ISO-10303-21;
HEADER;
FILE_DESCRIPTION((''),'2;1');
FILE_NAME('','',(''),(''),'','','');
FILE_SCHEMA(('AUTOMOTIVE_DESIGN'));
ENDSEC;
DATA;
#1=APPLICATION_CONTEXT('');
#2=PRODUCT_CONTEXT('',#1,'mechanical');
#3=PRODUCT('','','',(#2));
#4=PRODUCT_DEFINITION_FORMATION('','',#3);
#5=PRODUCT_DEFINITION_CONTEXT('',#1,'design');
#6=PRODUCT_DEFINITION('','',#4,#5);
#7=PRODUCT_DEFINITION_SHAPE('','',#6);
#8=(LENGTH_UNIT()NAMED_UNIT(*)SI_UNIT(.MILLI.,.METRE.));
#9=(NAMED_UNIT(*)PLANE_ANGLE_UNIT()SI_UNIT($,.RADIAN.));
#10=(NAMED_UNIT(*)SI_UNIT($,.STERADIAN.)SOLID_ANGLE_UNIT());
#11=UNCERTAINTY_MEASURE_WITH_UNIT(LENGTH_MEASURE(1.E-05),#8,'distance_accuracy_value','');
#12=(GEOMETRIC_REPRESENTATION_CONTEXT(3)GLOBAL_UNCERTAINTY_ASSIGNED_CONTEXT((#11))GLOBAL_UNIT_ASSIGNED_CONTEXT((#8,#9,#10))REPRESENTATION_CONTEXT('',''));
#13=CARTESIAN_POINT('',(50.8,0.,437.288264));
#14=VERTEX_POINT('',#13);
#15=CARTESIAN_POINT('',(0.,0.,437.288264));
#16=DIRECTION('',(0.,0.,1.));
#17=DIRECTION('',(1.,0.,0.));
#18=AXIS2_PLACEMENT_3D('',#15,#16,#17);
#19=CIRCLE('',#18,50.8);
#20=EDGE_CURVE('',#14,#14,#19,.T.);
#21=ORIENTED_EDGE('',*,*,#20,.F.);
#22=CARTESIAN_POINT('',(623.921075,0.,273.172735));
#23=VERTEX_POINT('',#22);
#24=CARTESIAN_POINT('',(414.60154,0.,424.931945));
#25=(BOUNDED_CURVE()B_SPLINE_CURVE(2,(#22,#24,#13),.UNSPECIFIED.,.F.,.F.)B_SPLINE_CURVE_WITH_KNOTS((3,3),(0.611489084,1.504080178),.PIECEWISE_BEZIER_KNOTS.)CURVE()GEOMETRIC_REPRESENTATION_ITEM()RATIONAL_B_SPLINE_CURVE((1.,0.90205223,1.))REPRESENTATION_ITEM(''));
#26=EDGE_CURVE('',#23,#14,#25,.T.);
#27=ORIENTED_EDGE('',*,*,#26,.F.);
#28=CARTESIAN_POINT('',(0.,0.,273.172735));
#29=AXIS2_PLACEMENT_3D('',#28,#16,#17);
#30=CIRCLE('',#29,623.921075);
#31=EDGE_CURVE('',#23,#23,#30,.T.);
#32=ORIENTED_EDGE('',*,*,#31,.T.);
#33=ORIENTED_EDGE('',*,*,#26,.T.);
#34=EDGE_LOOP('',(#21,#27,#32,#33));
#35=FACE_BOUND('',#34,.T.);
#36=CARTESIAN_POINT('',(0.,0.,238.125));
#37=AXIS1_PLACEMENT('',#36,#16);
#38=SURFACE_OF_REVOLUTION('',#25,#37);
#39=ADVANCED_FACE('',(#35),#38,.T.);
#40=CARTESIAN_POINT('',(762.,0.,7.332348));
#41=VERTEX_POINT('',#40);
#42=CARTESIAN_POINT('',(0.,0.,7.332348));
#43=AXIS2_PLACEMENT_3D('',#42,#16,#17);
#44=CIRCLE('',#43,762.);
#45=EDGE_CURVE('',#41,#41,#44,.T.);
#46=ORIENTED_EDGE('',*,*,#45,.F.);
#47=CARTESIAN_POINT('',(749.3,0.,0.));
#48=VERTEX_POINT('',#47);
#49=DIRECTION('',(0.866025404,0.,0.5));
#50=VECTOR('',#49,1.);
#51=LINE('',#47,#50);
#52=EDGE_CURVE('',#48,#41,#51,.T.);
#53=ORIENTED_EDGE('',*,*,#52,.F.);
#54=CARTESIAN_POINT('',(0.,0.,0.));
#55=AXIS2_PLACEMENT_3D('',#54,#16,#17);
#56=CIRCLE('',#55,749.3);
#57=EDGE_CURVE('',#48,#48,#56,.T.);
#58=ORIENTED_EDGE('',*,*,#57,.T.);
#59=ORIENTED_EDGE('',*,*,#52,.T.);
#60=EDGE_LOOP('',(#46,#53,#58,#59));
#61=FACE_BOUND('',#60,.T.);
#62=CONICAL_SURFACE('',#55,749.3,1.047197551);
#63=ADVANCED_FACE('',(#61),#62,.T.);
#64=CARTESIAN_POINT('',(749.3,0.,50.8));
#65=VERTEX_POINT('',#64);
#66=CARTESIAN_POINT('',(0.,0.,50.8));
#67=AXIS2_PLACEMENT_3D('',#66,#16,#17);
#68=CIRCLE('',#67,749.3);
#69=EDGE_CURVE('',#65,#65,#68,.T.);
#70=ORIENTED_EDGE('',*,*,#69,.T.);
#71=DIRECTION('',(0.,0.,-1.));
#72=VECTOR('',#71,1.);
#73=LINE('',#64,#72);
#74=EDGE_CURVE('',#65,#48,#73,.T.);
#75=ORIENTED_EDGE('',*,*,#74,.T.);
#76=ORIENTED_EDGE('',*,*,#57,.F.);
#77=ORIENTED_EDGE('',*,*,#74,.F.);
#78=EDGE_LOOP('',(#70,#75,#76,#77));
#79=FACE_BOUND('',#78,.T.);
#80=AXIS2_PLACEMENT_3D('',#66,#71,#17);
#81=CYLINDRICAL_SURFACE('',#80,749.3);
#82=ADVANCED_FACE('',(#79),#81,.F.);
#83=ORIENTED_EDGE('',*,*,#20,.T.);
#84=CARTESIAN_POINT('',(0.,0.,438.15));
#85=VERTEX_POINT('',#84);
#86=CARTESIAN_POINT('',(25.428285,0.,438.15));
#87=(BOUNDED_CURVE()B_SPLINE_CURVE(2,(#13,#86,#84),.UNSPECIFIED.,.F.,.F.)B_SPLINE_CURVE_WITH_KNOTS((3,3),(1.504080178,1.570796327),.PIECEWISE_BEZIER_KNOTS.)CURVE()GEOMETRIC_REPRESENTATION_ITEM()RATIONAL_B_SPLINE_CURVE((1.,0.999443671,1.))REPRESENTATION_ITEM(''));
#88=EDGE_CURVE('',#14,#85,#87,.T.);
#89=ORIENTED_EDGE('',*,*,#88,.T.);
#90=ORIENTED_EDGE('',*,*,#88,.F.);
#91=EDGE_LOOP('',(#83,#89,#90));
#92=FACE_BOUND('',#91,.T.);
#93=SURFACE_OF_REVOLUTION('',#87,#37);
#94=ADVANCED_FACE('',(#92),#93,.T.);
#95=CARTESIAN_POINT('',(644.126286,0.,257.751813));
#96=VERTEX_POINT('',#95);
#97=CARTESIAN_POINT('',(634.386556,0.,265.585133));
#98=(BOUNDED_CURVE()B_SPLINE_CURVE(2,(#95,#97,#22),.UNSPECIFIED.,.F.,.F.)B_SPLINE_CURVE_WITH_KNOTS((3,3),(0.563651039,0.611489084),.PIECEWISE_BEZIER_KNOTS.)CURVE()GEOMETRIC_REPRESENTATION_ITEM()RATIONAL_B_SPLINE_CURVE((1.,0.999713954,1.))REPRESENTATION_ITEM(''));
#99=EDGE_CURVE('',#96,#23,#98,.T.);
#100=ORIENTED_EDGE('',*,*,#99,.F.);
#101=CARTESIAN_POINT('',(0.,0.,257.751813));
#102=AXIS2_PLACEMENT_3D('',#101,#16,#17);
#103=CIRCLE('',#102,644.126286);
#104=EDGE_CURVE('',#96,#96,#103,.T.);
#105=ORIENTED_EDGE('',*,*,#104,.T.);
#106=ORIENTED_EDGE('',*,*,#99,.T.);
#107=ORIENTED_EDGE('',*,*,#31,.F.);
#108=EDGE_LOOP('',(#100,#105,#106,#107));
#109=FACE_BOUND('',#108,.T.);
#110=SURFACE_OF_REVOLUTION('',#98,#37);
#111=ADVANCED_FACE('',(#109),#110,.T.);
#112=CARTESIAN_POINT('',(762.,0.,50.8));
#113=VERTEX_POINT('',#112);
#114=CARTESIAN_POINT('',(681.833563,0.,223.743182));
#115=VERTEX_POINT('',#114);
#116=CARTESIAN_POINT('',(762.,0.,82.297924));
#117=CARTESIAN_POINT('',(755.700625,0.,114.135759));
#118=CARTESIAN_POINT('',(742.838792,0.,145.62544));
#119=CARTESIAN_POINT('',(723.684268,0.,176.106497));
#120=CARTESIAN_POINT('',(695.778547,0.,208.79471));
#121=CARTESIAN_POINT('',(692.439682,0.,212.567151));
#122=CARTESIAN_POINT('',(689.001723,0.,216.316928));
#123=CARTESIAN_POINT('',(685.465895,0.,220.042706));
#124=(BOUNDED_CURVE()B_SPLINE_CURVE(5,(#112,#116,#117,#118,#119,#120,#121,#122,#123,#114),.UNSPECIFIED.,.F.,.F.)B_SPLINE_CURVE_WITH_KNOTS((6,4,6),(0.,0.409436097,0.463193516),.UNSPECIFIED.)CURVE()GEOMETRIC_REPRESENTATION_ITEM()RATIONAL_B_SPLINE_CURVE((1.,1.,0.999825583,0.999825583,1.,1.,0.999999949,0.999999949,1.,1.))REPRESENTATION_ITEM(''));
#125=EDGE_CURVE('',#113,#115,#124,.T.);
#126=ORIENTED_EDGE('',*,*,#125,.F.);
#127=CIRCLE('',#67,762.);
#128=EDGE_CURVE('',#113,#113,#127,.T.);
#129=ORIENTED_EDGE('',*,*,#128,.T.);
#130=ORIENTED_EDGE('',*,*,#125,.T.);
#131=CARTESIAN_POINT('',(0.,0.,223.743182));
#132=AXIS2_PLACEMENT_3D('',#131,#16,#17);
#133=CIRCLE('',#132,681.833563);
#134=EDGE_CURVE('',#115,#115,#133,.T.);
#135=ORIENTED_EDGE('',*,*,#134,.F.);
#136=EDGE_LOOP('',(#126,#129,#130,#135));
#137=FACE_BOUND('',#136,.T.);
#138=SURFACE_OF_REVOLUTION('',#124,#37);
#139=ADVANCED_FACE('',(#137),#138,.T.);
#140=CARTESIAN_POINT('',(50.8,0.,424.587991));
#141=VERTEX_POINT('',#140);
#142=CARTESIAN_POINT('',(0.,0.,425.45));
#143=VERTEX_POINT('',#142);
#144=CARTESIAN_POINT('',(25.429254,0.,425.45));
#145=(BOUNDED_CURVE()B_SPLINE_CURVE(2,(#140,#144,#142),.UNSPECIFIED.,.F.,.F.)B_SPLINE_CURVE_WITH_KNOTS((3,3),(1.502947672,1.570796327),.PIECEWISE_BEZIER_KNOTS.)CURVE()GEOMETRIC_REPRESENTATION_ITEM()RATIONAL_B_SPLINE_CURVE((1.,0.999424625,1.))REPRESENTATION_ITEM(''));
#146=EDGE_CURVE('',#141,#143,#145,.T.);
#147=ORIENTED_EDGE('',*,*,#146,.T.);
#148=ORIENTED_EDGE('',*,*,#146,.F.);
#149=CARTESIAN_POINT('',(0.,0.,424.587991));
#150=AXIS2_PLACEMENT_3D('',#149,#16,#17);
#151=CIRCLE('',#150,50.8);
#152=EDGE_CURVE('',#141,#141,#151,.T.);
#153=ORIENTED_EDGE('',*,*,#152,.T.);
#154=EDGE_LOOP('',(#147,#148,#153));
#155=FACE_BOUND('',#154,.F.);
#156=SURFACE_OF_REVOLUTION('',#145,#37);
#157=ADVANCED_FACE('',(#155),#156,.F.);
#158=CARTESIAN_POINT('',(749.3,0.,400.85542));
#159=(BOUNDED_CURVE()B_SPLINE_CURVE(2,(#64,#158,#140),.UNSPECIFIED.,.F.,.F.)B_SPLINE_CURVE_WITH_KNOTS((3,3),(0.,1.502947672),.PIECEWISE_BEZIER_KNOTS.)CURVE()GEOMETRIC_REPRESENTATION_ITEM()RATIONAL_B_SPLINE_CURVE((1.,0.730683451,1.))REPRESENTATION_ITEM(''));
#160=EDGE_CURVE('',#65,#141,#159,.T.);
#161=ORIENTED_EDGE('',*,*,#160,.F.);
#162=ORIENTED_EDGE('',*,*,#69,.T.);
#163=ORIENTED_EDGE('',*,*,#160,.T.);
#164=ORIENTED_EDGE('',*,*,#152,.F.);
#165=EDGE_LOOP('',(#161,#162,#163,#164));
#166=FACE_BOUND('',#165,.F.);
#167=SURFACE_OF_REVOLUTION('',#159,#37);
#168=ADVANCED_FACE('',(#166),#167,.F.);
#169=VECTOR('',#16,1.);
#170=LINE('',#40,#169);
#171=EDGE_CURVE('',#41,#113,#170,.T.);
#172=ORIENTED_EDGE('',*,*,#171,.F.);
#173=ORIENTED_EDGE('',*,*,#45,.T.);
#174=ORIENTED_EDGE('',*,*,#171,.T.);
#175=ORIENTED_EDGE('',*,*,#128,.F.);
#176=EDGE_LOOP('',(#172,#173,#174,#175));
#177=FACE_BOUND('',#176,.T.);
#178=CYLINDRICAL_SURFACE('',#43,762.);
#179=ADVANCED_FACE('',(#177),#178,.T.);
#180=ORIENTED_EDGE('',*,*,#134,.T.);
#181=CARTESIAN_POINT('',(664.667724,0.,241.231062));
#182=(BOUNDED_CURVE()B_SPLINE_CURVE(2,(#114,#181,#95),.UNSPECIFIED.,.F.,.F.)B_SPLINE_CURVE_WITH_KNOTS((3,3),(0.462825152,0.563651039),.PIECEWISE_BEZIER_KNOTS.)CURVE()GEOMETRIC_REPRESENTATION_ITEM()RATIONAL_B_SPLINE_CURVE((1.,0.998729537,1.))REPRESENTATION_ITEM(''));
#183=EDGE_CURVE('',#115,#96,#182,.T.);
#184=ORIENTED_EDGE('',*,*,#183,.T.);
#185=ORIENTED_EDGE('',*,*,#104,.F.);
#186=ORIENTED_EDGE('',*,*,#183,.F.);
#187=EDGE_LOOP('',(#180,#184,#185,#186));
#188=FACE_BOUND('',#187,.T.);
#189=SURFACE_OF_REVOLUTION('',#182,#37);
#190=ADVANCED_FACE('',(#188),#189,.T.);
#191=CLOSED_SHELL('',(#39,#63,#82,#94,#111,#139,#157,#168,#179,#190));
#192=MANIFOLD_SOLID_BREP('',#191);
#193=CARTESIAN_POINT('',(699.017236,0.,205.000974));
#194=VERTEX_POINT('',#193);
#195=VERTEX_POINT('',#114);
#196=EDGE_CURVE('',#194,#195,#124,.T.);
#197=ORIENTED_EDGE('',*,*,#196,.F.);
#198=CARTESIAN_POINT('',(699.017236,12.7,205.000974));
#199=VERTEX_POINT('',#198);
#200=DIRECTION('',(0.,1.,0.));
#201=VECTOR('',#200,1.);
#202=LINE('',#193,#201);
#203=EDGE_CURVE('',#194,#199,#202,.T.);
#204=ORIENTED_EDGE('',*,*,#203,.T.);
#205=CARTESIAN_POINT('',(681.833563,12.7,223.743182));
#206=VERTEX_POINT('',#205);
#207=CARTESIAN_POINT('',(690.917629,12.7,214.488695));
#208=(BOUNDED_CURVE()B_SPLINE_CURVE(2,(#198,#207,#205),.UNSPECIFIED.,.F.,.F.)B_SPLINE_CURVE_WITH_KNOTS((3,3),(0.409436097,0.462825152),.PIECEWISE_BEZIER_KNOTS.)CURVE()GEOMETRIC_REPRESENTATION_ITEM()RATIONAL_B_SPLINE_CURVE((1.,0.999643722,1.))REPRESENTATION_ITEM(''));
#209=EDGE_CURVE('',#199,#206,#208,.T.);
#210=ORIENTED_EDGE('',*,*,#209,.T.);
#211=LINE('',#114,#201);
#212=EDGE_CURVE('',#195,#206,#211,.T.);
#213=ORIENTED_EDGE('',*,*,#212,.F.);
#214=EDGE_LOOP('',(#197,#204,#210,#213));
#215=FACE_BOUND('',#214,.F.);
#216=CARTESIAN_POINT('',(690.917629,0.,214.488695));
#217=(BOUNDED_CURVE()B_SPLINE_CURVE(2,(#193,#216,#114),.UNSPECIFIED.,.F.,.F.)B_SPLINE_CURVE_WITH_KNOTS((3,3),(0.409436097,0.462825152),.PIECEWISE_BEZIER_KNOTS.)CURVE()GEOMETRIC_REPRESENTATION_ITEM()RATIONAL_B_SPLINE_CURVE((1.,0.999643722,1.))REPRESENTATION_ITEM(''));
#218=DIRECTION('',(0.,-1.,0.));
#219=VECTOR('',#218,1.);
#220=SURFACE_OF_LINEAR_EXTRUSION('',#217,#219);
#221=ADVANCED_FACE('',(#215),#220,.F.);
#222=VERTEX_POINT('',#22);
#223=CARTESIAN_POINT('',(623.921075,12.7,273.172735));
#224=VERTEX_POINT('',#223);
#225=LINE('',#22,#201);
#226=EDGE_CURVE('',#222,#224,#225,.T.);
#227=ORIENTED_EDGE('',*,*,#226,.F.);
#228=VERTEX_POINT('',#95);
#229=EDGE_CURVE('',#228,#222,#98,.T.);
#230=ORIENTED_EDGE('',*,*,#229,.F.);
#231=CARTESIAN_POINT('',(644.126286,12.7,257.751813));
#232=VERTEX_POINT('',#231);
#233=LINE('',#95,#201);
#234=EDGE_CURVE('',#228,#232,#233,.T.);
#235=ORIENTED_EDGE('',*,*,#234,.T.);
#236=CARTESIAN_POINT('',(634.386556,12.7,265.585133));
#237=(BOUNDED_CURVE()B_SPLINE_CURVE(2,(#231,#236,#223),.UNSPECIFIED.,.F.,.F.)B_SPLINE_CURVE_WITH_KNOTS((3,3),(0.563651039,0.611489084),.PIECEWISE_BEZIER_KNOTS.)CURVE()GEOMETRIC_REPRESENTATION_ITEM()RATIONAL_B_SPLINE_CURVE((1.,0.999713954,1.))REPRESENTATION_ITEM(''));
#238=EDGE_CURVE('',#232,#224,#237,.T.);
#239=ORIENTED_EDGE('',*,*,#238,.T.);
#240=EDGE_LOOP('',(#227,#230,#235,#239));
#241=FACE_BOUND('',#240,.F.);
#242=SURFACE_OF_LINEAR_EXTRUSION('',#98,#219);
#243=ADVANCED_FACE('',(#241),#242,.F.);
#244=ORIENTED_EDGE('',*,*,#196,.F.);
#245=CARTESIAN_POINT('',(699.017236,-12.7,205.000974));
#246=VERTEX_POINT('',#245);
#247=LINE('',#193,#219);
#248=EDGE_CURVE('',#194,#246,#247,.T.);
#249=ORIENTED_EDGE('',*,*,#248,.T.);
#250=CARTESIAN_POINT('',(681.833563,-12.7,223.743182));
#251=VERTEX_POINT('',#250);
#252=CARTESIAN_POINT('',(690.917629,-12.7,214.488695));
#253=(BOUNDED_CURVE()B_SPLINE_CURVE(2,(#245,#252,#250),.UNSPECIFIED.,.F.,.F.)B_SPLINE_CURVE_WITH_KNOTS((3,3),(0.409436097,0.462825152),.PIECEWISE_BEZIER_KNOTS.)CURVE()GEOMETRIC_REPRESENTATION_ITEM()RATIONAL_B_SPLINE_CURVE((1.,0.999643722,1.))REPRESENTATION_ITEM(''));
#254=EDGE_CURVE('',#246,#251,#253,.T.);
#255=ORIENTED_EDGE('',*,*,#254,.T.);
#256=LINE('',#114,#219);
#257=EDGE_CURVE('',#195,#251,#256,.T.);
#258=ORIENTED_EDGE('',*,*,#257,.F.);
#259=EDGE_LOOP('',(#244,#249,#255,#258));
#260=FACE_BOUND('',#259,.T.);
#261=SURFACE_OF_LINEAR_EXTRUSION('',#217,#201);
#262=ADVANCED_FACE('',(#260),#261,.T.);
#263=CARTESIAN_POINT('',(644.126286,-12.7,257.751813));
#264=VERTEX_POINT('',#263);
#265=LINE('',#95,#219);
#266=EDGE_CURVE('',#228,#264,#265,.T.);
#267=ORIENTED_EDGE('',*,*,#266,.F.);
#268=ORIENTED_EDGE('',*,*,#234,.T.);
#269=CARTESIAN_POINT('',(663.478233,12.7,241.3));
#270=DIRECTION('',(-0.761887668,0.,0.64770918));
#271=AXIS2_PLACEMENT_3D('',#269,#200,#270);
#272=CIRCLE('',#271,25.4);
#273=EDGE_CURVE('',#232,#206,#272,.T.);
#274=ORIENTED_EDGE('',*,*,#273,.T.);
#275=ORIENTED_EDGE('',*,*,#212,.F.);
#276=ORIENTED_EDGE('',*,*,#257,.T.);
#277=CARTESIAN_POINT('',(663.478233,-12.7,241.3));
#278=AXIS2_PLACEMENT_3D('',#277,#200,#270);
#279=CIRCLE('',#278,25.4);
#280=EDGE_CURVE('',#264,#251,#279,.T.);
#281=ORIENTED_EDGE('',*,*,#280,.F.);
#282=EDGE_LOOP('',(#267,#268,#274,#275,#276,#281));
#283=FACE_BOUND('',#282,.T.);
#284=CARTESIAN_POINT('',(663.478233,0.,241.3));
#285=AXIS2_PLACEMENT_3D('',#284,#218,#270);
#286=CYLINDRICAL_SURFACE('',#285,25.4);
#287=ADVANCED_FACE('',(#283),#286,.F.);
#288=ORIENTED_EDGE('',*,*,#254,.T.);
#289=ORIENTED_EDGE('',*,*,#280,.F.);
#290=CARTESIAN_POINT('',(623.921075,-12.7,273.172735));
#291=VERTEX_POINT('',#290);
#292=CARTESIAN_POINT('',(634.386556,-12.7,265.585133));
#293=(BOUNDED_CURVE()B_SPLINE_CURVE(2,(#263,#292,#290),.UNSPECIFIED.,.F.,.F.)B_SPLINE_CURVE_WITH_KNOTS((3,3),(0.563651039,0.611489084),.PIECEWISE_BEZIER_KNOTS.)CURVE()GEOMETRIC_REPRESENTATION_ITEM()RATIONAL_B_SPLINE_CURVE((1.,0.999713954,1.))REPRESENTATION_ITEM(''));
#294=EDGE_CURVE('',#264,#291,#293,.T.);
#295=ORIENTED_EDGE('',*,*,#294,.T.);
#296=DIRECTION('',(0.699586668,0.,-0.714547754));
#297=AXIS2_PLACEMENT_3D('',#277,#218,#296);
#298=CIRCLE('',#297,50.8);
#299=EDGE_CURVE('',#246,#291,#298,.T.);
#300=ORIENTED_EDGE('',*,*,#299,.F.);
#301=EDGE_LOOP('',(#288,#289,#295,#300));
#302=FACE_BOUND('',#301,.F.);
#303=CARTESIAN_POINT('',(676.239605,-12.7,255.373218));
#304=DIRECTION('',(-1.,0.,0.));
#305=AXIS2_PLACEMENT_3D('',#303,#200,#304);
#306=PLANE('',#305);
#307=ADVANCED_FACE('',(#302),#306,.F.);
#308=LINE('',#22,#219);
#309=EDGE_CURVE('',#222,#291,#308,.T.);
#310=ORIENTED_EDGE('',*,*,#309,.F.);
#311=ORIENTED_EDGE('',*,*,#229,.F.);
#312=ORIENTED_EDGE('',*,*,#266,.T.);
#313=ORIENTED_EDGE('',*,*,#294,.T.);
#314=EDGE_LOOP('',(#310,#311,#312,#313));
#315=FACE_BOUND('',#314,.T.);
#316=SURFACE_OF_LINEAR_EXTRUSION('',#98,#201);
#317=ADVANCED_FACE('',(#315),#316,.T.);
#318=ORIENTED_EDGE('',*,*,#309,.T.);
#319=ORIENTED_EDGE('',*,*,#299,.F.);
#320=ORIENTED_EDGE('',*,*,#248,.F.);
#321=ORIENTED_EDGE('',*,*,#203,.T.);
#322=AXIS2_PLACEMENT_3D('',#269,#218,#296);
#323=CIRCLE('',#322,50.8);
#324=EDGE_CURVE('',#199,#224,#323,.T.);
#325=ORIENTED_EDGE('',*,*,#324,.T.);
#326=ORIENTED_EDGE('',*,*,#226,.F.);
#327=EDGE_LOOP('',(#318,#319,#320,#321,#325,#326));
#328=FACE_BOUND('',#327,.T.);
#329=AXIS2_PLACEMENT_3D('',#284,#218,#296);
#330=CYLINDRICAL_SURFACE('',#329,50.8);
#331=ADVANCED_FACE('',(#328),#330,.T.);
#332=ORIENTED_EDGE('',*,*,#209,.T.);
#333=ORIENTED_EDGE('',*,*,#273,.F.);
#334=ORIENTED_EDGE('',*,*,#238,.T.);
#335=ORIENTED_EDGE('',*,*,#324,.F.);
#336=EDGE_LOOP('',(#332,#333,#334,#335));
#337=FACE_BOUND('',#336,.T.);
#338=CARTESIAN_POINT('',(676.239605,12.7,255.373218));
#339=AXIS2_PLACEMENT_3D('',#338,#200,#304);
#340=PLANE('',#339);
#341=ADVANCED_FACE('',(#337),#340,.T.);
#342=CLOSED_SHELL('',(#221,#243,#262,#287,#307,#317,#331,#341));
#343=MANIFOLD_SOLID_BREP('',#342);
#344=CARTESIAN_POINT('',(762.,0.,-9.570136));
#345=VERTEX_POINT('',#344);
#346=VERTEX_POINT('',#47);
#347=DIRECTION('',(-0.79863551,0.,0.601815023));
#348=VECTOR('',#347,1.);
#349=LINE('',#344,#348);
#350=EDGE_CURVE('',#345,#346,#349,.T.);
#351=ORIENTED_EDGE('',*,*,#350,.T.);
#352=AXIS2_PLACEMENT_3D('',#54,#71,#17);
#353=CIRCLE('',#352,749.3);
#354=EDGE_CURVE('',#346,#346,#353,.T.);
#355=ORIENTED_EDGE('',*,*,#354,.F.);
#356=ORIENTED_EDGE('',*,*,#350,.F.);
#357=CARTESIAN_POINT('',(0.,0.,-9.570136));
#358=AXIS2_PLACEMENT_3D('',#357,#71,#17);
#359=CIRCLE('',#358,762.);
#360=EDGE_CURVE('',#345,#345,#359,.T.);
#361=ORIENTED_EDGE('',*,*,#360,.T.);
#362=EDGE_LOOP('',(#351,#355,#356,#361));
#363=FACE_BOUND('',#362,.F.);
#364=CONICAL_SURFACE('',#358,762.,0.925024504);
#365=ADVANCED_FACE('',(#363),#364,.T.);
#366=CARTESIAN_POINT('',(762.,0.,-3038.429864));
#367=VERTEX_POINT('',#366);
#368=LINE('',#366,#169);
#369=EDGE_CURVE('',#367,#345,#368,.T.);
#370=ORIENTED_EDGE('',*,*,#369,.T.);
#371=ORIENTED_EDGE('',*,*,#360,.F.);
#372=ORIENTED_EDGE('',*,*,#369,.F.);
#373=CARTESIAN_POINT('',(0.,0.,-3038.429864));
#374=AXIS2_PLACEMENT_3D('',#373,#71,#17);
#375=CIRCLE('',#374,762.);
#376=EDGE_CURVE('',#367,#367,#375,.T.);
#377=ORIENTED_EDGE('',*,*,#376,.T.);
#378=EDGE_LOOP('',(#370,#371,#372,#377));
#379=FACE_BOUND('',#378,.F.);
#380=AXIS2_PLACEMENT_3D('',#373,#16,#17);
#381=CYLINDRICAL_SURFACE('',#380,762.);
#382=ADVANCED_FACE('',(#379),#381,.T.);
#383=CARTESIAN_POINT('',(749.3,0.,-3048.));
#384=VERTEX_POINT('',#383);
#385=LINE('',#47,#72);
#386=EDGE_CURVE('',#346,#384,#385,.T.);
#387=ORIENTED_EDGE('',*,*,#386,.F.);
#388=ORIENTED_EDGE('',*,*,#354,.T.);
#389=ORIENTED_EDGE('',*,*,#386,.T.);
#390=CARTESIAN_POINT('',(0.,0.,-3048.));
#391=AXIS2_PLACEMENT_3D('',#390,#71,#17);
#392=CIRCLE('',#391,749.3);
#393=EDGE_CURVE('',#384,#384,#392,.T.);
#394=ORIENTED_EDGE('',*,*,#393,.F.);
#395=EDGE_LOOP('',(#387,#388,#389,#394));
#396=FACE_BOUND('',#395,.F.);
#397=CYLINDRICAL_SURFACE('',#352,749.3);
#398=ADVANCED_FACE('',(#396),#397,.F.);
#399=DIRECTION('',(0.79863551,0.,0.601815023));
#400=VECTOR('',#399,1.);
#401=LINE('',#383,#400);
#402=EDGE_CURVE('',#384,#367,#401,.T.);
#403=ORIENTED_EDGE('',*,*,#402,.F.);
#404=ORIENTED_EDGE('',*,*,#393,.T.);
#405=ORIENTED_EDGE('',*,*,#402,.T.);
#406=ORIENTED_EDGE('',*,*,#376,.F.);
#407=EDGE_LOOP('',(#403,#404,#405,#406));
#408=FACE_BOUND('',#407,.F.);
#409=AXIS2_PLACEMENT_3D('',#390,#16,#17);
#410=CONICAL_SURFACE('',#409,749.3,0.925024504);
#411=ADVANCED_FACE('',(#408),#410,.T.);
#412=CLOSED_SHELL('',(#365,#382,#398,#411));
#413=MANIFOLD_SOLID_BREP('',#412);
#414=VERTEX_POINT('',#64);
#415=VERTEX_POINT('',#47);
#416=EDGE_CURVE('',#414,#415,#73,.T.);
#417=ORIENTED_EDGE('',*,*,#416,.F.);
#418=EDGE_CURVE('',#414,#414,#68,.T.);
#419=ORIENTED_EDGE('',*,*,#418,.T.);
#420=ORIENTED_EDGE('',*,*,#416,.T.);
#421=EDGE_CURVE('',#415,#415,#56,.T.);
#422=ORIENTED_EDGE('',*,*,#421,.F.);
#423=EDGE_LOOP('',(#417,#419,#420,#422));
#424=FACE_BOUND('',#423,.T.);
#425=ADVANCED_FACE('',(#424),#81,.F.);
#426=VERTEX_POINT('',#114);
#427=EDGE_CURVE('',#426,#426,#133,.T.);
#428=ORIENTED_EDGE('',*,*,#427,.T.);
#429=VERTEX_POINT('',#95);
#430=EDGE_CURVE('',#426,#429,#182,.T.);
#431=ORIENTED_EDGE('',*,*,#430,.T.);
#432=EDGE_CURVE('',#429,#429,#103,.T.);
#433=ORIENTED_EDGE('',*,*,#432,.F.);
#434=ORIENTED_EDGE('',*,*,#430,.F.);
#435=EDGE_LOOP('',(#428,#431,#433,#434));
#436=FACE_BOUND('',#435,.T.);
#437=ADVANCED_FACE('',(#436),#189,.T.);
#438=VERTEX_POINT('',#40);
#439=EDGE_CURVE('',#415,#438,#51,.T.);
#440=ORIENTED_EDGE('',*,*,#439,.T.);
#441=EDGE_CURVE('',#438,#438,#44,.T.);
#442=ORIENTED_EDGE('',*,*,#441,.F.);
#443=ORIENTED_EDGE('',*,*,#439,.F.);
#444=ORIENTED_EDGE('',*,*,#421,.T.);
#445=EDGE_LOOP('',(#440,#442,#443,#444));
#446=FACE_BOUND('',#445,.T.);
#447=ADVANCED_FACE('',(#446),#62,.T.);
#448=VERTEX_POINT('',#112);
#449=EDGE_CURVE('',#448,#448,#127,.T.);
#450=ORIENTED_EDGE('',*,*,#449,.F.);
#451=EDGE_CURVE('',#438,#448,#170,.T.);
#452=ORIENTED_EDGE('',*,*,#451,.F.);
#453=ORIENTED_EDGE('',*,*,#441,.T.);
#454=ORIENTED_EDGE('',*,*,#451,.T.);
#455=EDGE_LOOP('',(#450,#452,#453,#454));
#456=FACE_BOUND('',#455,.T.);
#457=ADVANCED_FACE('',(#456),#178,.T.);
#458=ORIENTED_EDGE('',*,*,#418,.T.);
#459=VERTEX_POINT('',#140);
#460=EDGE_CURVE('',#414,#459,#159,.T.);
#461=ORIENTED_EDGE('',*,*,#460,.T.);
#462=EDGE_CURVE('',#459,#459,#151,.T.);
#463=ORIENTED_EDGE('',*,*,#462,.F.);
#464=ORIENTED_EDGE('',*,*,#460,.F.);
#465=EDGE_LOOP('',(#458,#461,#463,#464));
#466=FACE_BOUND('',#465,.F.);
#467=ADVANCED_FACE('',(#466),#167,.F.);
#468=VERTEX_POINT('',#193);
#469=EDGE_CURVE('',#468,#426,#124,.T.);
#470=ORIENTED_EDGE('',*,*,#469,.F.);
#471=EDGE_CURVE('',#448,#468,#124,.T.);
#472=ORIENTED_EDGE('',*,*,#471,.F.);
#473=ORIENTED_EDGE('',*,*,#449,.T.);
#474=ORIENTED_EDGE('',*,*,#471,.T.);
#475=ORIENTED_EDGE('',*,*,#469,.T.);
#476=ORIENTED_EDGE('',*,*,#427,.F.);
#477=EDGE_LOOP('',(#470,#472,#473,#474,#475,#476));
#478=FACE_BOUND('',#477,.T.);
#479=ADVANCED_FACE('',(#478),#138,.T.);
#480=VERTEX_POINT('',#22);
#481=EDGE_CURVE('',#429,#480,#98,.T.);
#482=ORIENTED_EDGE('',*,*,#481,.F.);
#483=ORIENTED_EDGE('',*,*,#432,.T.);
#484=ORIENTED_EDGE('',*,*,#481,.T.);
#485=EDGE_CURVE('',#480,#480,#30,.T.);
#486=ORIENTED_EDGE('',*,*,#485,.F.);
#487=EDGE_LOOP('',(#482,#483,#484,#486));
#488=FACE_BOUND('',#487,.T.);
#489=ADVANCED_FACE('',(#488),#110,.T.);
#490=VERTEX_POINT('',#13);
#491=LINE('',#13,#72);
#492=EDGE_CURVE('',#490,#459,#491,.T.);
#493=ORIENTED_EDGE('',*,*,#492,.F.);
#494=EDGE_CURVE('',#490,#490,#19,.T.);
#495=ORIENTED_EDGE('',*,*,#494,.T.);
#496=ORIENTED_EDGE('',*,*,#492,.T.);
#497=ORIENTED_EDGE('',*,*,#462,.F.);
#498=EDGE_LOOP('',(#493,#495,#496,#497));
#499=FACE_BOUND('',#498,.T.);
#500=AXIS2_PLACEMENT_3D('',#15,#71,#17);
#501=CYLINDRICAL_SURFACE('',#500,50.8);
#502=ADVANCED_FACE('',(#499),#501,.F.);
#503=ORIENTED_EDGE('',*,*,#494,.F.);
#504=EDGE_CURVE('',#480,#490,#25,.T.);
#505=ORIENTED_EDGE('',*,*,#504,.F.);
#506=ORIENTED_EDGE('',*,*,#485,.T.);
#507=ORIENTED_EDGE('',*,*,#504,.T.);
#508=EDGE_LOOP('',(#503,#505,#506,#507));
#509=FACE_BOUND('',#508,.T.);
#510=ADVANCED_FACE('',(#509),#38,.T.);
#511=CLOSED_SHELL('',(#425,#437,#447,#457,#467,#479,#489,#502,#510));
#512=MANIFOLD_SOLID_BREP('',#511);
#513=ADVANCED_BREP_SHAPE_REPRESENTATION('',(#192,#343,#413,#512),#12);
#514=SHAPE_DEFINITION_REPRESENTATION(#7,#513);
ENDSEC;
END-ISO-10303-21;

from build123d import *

# Parameters (mm, degrees)
F2_DEPTH = 12.7


with BuildPart() as f1:
    # F0 (on Front) → F1 (revolve)
    with BuildSketch(Plane.XZ):
        with BuildLine():
            Line((749.3, 50.8), (749.3, 0))
            Line((749.3, 0), (762, 7.3323484187))
            Line((762, 7.3323484187), (762, 50.8))
            add(Edge.make_bspline(
                [(762, 50.8), (762, 131.2241999089), (699.0172358285, 205.0009740743)],
                knots=[0, 0, 0, 0.4094360974, 0.4094360974, 0.4094360974], degree=2, weights=[1, 0.9791183416, 1]))
            add(Edge.make_bspline(
                [(699.0172358285, 205.0009740743), (690.9176289865, 214.4886946066), (681.8335632743, 223.7431821446)],
                knots=[0.4094360974, 0.4094360974, 0.4094360974, 0.4628251519, 0.4628251519, 0.4628251519], degree=2, weights=[1, 0.9996437223, 1]))
            add(Edge.make_bspline(
                [(681.8335632743, 223.7431821446), (664.6677239017, 241.2310616458), (644.1262863112, 257.7518131682)],
                knots=[0.4628251519, 0.4628251519, 0.4628251519, 0.5636510386, 0.5636510386, 0.5636510386], degree=2, weights=[1, 0.9987295367, 1]))
            add(Edge.make_bspline(
                [(644.1262863112, 257.7518131682), (634.3865563599, 265.5851333879), (623.9210747916, 273.1727348794)],
                knots=[0.5636510386, 0.5636510386, 0.5636510386, 0.6114890844, 0.6114890844, 0.6114890844], degree=2, weights=[1, 0.9997139538, 1]))
            add(Edge.make_bspline(
                [(623.9210747916, 273.1727348794), (414.6015402479, 424.9319446319), (50.8, 437.2882636712)],
                knots=[0.6114890844, 0.6114890844, 0.6114890844, 1.5040801784, 1.5040801784, 1.5040801784], degree=2, weights=[1, 0.9020522297, 1]))
            Line((50.8, 437.2882636712), (50.8, 424.5879913801))
            add(Edge.make_bspline(
                [(749.3, 50.8), (749.3, 400.8554204989), (50.8, 424.5879913801)],
                knots=[0, 0, 0, 1.5029476724, 1.5029476724, 1.5029476724], degree=2, weights=[1, 0.7306834507, 1]))
        make_face()
    revolve(axis=Axis((0, 0, 238.125), (0, 0, 1)))

    # F0 (on Front) → F2 (join, symmetric)
    with BuildSketch(Plane.XZ):
        with BuildLine():
            add(Edge.make_bspline(
                [(699.0172358285, 205.0009740743), (690.9176289865, 214.4886946066), (681.8335632743, 223.7431821446)],
                knots=[0.4094360974, 0.4094360974, 0.4094360974, 0.4628251519, 0.4628251519, 0.4628251519], degree=2, weights=[1, 0.9996437223, 1]))
            ThreePointArc((699.0172358285, 205.0009740743), (697.6232713112, 278.913247184), (623.9210747916, 273.1727348794))
            add(Edge.make_bspline(
                [(644.1262863112, 257.7518131682), (634.3865563599, 265.5851333879), (623.9210747916, 273.1727348794)],
                knots=[0.5636510386, 0.5636510386, 0.5636510386, 0.6114890844, 0.6114890844, 0.6114890844], degree=2, weights=[1, 0.9997139538, 1]))
            ThreePointArc((644.1262863112, 257.7518131682), (680.4898484335, 260.1617322331), (681.8335632743, 223.7431821446))
        make_face()
    extrude(amount=F2_DEPTH, both=True)


with BuildPart() as f4:
    # F3 (on Front) → F4 (revolve)
    with BuildSketch(Plane.XZ):
        Polygon((762, -9.5701364363), (749.3, 0), (749.3, -3048), (762, -3038.4298635637), align=None)
    revolve(axis=Axis((0, 0, -1524), (0, 0, -1)))


with BuildPart() as f5:
    # F0 (on Front) → F5 (revolve)
    with BuildSketch(Plane.XZ):
        with BuildLine():
            add(Edge.make_bspline(
                [(50.8, 424.5879913801), (25.4292542859, 425.45), (0, 425.45)],
                knots=[1.5029476724, 1.5029476724, 1.5029476724, 1.5707963268, 1.5707963268, 1.5707963268], degree=2, weights=[1, 0.9994246252, 1]))
            Line((50.8, 424.5879913801), (50.8, 437.2882636712))
            add(Edge.make_bspline(
                [(50.8, 437.2882636712), (25.428285113, 438.15), (0, 438.15)],
                knots=[1.5040801784, 1.5040801784, 1.5040801784, 1.5707963268, 1.5707963268, 1.5707963268], degree=2, weights=[1, 0.999443671, 1]))
            Line((0, 438.15), (0, 425.45))
        make_face()
        with BuildLine():
            Line((749.3, 50.8), (749.3, 0))
            Line((749.3, 0), (762, 7.3323484187))
            Line((762, 7.3323484187), (762, 50.8))
            add(Edge.make_bspline(
                [(762, 50.8), (762, 131.2241999089), (699.0172358285, 205.0009740743)],
                knots=[0, 0, 0, 0.4094360974, 0.4094360974, 0.4094360974], degree=2, weights=[1, 0.9791183416, 1]))
            add(Edge.make_bspline(
                [(699.0172358285, 205.0009740743), (690.9176289865, 214.4886946066), (681.8335632743, 223.7431821446)],
                knots=[0.4094360974, 0.4094360974, 0.4094360974, 0.4628251519, 0.4628251519, 0.4628251519], degree=2, weights=[1, 0.9996437223, 1]))
            add(Edge.make_bspline(
                [(681.8335632743, 223.7431821446), (664.6677239017, 241.2310616458), (644.1262863112, 257.7518131682)],
                knots=[0.4628251519, 0.4628251519, 0.4628251519, 0.5636510386, 0.5636510386, 0.5636510386], degree=2, weights=[1, 0.9987295367, 1]))
            add(Edge.make_bspline(
                [(644.1262863112, 257.7518131682), (634.3865563599, 265.5851333879), (623.9210747916, 273.1727348794)],
                knots=[0.5636510386, 0.5636510386, 0.5636510386, 0.6114890844, 0.6114890844, 0.6114890844], degree=2, weights=[1, 0.9997139538, 1]))
            add(Edge.make_bspline(
                [(623.9210747916, 273.1727348794), (414.6015402479, 424.9319446319), (50.8, 437.2882636712)],
                knots=[0.6114890844, 0.6114890844, 0.6114890844, 1.5040801784, 1.5040801784, 1.5040801784], degree=2, weights=[1, 0.9020522297, 1]))
            Line((50.8, 437.2882636712), (50.8, 424.5879913801))
            add(Edge.make_bspline(
                [(749.3, 50.8), (749.3, 400.8554204989), (50.8, 424.5879913801)],
                knots=[0, 0, 0, 1.5029476724, 1.5029476724, 1.5029476724], degree=2, weights=[1, 0.7306834507, 1]))
        make_face()
    revolve(axis=Axis((0, 0, 238.125), (0, 0, 1)))


solid = Compound([f1.part, f4.part, f5.part])
